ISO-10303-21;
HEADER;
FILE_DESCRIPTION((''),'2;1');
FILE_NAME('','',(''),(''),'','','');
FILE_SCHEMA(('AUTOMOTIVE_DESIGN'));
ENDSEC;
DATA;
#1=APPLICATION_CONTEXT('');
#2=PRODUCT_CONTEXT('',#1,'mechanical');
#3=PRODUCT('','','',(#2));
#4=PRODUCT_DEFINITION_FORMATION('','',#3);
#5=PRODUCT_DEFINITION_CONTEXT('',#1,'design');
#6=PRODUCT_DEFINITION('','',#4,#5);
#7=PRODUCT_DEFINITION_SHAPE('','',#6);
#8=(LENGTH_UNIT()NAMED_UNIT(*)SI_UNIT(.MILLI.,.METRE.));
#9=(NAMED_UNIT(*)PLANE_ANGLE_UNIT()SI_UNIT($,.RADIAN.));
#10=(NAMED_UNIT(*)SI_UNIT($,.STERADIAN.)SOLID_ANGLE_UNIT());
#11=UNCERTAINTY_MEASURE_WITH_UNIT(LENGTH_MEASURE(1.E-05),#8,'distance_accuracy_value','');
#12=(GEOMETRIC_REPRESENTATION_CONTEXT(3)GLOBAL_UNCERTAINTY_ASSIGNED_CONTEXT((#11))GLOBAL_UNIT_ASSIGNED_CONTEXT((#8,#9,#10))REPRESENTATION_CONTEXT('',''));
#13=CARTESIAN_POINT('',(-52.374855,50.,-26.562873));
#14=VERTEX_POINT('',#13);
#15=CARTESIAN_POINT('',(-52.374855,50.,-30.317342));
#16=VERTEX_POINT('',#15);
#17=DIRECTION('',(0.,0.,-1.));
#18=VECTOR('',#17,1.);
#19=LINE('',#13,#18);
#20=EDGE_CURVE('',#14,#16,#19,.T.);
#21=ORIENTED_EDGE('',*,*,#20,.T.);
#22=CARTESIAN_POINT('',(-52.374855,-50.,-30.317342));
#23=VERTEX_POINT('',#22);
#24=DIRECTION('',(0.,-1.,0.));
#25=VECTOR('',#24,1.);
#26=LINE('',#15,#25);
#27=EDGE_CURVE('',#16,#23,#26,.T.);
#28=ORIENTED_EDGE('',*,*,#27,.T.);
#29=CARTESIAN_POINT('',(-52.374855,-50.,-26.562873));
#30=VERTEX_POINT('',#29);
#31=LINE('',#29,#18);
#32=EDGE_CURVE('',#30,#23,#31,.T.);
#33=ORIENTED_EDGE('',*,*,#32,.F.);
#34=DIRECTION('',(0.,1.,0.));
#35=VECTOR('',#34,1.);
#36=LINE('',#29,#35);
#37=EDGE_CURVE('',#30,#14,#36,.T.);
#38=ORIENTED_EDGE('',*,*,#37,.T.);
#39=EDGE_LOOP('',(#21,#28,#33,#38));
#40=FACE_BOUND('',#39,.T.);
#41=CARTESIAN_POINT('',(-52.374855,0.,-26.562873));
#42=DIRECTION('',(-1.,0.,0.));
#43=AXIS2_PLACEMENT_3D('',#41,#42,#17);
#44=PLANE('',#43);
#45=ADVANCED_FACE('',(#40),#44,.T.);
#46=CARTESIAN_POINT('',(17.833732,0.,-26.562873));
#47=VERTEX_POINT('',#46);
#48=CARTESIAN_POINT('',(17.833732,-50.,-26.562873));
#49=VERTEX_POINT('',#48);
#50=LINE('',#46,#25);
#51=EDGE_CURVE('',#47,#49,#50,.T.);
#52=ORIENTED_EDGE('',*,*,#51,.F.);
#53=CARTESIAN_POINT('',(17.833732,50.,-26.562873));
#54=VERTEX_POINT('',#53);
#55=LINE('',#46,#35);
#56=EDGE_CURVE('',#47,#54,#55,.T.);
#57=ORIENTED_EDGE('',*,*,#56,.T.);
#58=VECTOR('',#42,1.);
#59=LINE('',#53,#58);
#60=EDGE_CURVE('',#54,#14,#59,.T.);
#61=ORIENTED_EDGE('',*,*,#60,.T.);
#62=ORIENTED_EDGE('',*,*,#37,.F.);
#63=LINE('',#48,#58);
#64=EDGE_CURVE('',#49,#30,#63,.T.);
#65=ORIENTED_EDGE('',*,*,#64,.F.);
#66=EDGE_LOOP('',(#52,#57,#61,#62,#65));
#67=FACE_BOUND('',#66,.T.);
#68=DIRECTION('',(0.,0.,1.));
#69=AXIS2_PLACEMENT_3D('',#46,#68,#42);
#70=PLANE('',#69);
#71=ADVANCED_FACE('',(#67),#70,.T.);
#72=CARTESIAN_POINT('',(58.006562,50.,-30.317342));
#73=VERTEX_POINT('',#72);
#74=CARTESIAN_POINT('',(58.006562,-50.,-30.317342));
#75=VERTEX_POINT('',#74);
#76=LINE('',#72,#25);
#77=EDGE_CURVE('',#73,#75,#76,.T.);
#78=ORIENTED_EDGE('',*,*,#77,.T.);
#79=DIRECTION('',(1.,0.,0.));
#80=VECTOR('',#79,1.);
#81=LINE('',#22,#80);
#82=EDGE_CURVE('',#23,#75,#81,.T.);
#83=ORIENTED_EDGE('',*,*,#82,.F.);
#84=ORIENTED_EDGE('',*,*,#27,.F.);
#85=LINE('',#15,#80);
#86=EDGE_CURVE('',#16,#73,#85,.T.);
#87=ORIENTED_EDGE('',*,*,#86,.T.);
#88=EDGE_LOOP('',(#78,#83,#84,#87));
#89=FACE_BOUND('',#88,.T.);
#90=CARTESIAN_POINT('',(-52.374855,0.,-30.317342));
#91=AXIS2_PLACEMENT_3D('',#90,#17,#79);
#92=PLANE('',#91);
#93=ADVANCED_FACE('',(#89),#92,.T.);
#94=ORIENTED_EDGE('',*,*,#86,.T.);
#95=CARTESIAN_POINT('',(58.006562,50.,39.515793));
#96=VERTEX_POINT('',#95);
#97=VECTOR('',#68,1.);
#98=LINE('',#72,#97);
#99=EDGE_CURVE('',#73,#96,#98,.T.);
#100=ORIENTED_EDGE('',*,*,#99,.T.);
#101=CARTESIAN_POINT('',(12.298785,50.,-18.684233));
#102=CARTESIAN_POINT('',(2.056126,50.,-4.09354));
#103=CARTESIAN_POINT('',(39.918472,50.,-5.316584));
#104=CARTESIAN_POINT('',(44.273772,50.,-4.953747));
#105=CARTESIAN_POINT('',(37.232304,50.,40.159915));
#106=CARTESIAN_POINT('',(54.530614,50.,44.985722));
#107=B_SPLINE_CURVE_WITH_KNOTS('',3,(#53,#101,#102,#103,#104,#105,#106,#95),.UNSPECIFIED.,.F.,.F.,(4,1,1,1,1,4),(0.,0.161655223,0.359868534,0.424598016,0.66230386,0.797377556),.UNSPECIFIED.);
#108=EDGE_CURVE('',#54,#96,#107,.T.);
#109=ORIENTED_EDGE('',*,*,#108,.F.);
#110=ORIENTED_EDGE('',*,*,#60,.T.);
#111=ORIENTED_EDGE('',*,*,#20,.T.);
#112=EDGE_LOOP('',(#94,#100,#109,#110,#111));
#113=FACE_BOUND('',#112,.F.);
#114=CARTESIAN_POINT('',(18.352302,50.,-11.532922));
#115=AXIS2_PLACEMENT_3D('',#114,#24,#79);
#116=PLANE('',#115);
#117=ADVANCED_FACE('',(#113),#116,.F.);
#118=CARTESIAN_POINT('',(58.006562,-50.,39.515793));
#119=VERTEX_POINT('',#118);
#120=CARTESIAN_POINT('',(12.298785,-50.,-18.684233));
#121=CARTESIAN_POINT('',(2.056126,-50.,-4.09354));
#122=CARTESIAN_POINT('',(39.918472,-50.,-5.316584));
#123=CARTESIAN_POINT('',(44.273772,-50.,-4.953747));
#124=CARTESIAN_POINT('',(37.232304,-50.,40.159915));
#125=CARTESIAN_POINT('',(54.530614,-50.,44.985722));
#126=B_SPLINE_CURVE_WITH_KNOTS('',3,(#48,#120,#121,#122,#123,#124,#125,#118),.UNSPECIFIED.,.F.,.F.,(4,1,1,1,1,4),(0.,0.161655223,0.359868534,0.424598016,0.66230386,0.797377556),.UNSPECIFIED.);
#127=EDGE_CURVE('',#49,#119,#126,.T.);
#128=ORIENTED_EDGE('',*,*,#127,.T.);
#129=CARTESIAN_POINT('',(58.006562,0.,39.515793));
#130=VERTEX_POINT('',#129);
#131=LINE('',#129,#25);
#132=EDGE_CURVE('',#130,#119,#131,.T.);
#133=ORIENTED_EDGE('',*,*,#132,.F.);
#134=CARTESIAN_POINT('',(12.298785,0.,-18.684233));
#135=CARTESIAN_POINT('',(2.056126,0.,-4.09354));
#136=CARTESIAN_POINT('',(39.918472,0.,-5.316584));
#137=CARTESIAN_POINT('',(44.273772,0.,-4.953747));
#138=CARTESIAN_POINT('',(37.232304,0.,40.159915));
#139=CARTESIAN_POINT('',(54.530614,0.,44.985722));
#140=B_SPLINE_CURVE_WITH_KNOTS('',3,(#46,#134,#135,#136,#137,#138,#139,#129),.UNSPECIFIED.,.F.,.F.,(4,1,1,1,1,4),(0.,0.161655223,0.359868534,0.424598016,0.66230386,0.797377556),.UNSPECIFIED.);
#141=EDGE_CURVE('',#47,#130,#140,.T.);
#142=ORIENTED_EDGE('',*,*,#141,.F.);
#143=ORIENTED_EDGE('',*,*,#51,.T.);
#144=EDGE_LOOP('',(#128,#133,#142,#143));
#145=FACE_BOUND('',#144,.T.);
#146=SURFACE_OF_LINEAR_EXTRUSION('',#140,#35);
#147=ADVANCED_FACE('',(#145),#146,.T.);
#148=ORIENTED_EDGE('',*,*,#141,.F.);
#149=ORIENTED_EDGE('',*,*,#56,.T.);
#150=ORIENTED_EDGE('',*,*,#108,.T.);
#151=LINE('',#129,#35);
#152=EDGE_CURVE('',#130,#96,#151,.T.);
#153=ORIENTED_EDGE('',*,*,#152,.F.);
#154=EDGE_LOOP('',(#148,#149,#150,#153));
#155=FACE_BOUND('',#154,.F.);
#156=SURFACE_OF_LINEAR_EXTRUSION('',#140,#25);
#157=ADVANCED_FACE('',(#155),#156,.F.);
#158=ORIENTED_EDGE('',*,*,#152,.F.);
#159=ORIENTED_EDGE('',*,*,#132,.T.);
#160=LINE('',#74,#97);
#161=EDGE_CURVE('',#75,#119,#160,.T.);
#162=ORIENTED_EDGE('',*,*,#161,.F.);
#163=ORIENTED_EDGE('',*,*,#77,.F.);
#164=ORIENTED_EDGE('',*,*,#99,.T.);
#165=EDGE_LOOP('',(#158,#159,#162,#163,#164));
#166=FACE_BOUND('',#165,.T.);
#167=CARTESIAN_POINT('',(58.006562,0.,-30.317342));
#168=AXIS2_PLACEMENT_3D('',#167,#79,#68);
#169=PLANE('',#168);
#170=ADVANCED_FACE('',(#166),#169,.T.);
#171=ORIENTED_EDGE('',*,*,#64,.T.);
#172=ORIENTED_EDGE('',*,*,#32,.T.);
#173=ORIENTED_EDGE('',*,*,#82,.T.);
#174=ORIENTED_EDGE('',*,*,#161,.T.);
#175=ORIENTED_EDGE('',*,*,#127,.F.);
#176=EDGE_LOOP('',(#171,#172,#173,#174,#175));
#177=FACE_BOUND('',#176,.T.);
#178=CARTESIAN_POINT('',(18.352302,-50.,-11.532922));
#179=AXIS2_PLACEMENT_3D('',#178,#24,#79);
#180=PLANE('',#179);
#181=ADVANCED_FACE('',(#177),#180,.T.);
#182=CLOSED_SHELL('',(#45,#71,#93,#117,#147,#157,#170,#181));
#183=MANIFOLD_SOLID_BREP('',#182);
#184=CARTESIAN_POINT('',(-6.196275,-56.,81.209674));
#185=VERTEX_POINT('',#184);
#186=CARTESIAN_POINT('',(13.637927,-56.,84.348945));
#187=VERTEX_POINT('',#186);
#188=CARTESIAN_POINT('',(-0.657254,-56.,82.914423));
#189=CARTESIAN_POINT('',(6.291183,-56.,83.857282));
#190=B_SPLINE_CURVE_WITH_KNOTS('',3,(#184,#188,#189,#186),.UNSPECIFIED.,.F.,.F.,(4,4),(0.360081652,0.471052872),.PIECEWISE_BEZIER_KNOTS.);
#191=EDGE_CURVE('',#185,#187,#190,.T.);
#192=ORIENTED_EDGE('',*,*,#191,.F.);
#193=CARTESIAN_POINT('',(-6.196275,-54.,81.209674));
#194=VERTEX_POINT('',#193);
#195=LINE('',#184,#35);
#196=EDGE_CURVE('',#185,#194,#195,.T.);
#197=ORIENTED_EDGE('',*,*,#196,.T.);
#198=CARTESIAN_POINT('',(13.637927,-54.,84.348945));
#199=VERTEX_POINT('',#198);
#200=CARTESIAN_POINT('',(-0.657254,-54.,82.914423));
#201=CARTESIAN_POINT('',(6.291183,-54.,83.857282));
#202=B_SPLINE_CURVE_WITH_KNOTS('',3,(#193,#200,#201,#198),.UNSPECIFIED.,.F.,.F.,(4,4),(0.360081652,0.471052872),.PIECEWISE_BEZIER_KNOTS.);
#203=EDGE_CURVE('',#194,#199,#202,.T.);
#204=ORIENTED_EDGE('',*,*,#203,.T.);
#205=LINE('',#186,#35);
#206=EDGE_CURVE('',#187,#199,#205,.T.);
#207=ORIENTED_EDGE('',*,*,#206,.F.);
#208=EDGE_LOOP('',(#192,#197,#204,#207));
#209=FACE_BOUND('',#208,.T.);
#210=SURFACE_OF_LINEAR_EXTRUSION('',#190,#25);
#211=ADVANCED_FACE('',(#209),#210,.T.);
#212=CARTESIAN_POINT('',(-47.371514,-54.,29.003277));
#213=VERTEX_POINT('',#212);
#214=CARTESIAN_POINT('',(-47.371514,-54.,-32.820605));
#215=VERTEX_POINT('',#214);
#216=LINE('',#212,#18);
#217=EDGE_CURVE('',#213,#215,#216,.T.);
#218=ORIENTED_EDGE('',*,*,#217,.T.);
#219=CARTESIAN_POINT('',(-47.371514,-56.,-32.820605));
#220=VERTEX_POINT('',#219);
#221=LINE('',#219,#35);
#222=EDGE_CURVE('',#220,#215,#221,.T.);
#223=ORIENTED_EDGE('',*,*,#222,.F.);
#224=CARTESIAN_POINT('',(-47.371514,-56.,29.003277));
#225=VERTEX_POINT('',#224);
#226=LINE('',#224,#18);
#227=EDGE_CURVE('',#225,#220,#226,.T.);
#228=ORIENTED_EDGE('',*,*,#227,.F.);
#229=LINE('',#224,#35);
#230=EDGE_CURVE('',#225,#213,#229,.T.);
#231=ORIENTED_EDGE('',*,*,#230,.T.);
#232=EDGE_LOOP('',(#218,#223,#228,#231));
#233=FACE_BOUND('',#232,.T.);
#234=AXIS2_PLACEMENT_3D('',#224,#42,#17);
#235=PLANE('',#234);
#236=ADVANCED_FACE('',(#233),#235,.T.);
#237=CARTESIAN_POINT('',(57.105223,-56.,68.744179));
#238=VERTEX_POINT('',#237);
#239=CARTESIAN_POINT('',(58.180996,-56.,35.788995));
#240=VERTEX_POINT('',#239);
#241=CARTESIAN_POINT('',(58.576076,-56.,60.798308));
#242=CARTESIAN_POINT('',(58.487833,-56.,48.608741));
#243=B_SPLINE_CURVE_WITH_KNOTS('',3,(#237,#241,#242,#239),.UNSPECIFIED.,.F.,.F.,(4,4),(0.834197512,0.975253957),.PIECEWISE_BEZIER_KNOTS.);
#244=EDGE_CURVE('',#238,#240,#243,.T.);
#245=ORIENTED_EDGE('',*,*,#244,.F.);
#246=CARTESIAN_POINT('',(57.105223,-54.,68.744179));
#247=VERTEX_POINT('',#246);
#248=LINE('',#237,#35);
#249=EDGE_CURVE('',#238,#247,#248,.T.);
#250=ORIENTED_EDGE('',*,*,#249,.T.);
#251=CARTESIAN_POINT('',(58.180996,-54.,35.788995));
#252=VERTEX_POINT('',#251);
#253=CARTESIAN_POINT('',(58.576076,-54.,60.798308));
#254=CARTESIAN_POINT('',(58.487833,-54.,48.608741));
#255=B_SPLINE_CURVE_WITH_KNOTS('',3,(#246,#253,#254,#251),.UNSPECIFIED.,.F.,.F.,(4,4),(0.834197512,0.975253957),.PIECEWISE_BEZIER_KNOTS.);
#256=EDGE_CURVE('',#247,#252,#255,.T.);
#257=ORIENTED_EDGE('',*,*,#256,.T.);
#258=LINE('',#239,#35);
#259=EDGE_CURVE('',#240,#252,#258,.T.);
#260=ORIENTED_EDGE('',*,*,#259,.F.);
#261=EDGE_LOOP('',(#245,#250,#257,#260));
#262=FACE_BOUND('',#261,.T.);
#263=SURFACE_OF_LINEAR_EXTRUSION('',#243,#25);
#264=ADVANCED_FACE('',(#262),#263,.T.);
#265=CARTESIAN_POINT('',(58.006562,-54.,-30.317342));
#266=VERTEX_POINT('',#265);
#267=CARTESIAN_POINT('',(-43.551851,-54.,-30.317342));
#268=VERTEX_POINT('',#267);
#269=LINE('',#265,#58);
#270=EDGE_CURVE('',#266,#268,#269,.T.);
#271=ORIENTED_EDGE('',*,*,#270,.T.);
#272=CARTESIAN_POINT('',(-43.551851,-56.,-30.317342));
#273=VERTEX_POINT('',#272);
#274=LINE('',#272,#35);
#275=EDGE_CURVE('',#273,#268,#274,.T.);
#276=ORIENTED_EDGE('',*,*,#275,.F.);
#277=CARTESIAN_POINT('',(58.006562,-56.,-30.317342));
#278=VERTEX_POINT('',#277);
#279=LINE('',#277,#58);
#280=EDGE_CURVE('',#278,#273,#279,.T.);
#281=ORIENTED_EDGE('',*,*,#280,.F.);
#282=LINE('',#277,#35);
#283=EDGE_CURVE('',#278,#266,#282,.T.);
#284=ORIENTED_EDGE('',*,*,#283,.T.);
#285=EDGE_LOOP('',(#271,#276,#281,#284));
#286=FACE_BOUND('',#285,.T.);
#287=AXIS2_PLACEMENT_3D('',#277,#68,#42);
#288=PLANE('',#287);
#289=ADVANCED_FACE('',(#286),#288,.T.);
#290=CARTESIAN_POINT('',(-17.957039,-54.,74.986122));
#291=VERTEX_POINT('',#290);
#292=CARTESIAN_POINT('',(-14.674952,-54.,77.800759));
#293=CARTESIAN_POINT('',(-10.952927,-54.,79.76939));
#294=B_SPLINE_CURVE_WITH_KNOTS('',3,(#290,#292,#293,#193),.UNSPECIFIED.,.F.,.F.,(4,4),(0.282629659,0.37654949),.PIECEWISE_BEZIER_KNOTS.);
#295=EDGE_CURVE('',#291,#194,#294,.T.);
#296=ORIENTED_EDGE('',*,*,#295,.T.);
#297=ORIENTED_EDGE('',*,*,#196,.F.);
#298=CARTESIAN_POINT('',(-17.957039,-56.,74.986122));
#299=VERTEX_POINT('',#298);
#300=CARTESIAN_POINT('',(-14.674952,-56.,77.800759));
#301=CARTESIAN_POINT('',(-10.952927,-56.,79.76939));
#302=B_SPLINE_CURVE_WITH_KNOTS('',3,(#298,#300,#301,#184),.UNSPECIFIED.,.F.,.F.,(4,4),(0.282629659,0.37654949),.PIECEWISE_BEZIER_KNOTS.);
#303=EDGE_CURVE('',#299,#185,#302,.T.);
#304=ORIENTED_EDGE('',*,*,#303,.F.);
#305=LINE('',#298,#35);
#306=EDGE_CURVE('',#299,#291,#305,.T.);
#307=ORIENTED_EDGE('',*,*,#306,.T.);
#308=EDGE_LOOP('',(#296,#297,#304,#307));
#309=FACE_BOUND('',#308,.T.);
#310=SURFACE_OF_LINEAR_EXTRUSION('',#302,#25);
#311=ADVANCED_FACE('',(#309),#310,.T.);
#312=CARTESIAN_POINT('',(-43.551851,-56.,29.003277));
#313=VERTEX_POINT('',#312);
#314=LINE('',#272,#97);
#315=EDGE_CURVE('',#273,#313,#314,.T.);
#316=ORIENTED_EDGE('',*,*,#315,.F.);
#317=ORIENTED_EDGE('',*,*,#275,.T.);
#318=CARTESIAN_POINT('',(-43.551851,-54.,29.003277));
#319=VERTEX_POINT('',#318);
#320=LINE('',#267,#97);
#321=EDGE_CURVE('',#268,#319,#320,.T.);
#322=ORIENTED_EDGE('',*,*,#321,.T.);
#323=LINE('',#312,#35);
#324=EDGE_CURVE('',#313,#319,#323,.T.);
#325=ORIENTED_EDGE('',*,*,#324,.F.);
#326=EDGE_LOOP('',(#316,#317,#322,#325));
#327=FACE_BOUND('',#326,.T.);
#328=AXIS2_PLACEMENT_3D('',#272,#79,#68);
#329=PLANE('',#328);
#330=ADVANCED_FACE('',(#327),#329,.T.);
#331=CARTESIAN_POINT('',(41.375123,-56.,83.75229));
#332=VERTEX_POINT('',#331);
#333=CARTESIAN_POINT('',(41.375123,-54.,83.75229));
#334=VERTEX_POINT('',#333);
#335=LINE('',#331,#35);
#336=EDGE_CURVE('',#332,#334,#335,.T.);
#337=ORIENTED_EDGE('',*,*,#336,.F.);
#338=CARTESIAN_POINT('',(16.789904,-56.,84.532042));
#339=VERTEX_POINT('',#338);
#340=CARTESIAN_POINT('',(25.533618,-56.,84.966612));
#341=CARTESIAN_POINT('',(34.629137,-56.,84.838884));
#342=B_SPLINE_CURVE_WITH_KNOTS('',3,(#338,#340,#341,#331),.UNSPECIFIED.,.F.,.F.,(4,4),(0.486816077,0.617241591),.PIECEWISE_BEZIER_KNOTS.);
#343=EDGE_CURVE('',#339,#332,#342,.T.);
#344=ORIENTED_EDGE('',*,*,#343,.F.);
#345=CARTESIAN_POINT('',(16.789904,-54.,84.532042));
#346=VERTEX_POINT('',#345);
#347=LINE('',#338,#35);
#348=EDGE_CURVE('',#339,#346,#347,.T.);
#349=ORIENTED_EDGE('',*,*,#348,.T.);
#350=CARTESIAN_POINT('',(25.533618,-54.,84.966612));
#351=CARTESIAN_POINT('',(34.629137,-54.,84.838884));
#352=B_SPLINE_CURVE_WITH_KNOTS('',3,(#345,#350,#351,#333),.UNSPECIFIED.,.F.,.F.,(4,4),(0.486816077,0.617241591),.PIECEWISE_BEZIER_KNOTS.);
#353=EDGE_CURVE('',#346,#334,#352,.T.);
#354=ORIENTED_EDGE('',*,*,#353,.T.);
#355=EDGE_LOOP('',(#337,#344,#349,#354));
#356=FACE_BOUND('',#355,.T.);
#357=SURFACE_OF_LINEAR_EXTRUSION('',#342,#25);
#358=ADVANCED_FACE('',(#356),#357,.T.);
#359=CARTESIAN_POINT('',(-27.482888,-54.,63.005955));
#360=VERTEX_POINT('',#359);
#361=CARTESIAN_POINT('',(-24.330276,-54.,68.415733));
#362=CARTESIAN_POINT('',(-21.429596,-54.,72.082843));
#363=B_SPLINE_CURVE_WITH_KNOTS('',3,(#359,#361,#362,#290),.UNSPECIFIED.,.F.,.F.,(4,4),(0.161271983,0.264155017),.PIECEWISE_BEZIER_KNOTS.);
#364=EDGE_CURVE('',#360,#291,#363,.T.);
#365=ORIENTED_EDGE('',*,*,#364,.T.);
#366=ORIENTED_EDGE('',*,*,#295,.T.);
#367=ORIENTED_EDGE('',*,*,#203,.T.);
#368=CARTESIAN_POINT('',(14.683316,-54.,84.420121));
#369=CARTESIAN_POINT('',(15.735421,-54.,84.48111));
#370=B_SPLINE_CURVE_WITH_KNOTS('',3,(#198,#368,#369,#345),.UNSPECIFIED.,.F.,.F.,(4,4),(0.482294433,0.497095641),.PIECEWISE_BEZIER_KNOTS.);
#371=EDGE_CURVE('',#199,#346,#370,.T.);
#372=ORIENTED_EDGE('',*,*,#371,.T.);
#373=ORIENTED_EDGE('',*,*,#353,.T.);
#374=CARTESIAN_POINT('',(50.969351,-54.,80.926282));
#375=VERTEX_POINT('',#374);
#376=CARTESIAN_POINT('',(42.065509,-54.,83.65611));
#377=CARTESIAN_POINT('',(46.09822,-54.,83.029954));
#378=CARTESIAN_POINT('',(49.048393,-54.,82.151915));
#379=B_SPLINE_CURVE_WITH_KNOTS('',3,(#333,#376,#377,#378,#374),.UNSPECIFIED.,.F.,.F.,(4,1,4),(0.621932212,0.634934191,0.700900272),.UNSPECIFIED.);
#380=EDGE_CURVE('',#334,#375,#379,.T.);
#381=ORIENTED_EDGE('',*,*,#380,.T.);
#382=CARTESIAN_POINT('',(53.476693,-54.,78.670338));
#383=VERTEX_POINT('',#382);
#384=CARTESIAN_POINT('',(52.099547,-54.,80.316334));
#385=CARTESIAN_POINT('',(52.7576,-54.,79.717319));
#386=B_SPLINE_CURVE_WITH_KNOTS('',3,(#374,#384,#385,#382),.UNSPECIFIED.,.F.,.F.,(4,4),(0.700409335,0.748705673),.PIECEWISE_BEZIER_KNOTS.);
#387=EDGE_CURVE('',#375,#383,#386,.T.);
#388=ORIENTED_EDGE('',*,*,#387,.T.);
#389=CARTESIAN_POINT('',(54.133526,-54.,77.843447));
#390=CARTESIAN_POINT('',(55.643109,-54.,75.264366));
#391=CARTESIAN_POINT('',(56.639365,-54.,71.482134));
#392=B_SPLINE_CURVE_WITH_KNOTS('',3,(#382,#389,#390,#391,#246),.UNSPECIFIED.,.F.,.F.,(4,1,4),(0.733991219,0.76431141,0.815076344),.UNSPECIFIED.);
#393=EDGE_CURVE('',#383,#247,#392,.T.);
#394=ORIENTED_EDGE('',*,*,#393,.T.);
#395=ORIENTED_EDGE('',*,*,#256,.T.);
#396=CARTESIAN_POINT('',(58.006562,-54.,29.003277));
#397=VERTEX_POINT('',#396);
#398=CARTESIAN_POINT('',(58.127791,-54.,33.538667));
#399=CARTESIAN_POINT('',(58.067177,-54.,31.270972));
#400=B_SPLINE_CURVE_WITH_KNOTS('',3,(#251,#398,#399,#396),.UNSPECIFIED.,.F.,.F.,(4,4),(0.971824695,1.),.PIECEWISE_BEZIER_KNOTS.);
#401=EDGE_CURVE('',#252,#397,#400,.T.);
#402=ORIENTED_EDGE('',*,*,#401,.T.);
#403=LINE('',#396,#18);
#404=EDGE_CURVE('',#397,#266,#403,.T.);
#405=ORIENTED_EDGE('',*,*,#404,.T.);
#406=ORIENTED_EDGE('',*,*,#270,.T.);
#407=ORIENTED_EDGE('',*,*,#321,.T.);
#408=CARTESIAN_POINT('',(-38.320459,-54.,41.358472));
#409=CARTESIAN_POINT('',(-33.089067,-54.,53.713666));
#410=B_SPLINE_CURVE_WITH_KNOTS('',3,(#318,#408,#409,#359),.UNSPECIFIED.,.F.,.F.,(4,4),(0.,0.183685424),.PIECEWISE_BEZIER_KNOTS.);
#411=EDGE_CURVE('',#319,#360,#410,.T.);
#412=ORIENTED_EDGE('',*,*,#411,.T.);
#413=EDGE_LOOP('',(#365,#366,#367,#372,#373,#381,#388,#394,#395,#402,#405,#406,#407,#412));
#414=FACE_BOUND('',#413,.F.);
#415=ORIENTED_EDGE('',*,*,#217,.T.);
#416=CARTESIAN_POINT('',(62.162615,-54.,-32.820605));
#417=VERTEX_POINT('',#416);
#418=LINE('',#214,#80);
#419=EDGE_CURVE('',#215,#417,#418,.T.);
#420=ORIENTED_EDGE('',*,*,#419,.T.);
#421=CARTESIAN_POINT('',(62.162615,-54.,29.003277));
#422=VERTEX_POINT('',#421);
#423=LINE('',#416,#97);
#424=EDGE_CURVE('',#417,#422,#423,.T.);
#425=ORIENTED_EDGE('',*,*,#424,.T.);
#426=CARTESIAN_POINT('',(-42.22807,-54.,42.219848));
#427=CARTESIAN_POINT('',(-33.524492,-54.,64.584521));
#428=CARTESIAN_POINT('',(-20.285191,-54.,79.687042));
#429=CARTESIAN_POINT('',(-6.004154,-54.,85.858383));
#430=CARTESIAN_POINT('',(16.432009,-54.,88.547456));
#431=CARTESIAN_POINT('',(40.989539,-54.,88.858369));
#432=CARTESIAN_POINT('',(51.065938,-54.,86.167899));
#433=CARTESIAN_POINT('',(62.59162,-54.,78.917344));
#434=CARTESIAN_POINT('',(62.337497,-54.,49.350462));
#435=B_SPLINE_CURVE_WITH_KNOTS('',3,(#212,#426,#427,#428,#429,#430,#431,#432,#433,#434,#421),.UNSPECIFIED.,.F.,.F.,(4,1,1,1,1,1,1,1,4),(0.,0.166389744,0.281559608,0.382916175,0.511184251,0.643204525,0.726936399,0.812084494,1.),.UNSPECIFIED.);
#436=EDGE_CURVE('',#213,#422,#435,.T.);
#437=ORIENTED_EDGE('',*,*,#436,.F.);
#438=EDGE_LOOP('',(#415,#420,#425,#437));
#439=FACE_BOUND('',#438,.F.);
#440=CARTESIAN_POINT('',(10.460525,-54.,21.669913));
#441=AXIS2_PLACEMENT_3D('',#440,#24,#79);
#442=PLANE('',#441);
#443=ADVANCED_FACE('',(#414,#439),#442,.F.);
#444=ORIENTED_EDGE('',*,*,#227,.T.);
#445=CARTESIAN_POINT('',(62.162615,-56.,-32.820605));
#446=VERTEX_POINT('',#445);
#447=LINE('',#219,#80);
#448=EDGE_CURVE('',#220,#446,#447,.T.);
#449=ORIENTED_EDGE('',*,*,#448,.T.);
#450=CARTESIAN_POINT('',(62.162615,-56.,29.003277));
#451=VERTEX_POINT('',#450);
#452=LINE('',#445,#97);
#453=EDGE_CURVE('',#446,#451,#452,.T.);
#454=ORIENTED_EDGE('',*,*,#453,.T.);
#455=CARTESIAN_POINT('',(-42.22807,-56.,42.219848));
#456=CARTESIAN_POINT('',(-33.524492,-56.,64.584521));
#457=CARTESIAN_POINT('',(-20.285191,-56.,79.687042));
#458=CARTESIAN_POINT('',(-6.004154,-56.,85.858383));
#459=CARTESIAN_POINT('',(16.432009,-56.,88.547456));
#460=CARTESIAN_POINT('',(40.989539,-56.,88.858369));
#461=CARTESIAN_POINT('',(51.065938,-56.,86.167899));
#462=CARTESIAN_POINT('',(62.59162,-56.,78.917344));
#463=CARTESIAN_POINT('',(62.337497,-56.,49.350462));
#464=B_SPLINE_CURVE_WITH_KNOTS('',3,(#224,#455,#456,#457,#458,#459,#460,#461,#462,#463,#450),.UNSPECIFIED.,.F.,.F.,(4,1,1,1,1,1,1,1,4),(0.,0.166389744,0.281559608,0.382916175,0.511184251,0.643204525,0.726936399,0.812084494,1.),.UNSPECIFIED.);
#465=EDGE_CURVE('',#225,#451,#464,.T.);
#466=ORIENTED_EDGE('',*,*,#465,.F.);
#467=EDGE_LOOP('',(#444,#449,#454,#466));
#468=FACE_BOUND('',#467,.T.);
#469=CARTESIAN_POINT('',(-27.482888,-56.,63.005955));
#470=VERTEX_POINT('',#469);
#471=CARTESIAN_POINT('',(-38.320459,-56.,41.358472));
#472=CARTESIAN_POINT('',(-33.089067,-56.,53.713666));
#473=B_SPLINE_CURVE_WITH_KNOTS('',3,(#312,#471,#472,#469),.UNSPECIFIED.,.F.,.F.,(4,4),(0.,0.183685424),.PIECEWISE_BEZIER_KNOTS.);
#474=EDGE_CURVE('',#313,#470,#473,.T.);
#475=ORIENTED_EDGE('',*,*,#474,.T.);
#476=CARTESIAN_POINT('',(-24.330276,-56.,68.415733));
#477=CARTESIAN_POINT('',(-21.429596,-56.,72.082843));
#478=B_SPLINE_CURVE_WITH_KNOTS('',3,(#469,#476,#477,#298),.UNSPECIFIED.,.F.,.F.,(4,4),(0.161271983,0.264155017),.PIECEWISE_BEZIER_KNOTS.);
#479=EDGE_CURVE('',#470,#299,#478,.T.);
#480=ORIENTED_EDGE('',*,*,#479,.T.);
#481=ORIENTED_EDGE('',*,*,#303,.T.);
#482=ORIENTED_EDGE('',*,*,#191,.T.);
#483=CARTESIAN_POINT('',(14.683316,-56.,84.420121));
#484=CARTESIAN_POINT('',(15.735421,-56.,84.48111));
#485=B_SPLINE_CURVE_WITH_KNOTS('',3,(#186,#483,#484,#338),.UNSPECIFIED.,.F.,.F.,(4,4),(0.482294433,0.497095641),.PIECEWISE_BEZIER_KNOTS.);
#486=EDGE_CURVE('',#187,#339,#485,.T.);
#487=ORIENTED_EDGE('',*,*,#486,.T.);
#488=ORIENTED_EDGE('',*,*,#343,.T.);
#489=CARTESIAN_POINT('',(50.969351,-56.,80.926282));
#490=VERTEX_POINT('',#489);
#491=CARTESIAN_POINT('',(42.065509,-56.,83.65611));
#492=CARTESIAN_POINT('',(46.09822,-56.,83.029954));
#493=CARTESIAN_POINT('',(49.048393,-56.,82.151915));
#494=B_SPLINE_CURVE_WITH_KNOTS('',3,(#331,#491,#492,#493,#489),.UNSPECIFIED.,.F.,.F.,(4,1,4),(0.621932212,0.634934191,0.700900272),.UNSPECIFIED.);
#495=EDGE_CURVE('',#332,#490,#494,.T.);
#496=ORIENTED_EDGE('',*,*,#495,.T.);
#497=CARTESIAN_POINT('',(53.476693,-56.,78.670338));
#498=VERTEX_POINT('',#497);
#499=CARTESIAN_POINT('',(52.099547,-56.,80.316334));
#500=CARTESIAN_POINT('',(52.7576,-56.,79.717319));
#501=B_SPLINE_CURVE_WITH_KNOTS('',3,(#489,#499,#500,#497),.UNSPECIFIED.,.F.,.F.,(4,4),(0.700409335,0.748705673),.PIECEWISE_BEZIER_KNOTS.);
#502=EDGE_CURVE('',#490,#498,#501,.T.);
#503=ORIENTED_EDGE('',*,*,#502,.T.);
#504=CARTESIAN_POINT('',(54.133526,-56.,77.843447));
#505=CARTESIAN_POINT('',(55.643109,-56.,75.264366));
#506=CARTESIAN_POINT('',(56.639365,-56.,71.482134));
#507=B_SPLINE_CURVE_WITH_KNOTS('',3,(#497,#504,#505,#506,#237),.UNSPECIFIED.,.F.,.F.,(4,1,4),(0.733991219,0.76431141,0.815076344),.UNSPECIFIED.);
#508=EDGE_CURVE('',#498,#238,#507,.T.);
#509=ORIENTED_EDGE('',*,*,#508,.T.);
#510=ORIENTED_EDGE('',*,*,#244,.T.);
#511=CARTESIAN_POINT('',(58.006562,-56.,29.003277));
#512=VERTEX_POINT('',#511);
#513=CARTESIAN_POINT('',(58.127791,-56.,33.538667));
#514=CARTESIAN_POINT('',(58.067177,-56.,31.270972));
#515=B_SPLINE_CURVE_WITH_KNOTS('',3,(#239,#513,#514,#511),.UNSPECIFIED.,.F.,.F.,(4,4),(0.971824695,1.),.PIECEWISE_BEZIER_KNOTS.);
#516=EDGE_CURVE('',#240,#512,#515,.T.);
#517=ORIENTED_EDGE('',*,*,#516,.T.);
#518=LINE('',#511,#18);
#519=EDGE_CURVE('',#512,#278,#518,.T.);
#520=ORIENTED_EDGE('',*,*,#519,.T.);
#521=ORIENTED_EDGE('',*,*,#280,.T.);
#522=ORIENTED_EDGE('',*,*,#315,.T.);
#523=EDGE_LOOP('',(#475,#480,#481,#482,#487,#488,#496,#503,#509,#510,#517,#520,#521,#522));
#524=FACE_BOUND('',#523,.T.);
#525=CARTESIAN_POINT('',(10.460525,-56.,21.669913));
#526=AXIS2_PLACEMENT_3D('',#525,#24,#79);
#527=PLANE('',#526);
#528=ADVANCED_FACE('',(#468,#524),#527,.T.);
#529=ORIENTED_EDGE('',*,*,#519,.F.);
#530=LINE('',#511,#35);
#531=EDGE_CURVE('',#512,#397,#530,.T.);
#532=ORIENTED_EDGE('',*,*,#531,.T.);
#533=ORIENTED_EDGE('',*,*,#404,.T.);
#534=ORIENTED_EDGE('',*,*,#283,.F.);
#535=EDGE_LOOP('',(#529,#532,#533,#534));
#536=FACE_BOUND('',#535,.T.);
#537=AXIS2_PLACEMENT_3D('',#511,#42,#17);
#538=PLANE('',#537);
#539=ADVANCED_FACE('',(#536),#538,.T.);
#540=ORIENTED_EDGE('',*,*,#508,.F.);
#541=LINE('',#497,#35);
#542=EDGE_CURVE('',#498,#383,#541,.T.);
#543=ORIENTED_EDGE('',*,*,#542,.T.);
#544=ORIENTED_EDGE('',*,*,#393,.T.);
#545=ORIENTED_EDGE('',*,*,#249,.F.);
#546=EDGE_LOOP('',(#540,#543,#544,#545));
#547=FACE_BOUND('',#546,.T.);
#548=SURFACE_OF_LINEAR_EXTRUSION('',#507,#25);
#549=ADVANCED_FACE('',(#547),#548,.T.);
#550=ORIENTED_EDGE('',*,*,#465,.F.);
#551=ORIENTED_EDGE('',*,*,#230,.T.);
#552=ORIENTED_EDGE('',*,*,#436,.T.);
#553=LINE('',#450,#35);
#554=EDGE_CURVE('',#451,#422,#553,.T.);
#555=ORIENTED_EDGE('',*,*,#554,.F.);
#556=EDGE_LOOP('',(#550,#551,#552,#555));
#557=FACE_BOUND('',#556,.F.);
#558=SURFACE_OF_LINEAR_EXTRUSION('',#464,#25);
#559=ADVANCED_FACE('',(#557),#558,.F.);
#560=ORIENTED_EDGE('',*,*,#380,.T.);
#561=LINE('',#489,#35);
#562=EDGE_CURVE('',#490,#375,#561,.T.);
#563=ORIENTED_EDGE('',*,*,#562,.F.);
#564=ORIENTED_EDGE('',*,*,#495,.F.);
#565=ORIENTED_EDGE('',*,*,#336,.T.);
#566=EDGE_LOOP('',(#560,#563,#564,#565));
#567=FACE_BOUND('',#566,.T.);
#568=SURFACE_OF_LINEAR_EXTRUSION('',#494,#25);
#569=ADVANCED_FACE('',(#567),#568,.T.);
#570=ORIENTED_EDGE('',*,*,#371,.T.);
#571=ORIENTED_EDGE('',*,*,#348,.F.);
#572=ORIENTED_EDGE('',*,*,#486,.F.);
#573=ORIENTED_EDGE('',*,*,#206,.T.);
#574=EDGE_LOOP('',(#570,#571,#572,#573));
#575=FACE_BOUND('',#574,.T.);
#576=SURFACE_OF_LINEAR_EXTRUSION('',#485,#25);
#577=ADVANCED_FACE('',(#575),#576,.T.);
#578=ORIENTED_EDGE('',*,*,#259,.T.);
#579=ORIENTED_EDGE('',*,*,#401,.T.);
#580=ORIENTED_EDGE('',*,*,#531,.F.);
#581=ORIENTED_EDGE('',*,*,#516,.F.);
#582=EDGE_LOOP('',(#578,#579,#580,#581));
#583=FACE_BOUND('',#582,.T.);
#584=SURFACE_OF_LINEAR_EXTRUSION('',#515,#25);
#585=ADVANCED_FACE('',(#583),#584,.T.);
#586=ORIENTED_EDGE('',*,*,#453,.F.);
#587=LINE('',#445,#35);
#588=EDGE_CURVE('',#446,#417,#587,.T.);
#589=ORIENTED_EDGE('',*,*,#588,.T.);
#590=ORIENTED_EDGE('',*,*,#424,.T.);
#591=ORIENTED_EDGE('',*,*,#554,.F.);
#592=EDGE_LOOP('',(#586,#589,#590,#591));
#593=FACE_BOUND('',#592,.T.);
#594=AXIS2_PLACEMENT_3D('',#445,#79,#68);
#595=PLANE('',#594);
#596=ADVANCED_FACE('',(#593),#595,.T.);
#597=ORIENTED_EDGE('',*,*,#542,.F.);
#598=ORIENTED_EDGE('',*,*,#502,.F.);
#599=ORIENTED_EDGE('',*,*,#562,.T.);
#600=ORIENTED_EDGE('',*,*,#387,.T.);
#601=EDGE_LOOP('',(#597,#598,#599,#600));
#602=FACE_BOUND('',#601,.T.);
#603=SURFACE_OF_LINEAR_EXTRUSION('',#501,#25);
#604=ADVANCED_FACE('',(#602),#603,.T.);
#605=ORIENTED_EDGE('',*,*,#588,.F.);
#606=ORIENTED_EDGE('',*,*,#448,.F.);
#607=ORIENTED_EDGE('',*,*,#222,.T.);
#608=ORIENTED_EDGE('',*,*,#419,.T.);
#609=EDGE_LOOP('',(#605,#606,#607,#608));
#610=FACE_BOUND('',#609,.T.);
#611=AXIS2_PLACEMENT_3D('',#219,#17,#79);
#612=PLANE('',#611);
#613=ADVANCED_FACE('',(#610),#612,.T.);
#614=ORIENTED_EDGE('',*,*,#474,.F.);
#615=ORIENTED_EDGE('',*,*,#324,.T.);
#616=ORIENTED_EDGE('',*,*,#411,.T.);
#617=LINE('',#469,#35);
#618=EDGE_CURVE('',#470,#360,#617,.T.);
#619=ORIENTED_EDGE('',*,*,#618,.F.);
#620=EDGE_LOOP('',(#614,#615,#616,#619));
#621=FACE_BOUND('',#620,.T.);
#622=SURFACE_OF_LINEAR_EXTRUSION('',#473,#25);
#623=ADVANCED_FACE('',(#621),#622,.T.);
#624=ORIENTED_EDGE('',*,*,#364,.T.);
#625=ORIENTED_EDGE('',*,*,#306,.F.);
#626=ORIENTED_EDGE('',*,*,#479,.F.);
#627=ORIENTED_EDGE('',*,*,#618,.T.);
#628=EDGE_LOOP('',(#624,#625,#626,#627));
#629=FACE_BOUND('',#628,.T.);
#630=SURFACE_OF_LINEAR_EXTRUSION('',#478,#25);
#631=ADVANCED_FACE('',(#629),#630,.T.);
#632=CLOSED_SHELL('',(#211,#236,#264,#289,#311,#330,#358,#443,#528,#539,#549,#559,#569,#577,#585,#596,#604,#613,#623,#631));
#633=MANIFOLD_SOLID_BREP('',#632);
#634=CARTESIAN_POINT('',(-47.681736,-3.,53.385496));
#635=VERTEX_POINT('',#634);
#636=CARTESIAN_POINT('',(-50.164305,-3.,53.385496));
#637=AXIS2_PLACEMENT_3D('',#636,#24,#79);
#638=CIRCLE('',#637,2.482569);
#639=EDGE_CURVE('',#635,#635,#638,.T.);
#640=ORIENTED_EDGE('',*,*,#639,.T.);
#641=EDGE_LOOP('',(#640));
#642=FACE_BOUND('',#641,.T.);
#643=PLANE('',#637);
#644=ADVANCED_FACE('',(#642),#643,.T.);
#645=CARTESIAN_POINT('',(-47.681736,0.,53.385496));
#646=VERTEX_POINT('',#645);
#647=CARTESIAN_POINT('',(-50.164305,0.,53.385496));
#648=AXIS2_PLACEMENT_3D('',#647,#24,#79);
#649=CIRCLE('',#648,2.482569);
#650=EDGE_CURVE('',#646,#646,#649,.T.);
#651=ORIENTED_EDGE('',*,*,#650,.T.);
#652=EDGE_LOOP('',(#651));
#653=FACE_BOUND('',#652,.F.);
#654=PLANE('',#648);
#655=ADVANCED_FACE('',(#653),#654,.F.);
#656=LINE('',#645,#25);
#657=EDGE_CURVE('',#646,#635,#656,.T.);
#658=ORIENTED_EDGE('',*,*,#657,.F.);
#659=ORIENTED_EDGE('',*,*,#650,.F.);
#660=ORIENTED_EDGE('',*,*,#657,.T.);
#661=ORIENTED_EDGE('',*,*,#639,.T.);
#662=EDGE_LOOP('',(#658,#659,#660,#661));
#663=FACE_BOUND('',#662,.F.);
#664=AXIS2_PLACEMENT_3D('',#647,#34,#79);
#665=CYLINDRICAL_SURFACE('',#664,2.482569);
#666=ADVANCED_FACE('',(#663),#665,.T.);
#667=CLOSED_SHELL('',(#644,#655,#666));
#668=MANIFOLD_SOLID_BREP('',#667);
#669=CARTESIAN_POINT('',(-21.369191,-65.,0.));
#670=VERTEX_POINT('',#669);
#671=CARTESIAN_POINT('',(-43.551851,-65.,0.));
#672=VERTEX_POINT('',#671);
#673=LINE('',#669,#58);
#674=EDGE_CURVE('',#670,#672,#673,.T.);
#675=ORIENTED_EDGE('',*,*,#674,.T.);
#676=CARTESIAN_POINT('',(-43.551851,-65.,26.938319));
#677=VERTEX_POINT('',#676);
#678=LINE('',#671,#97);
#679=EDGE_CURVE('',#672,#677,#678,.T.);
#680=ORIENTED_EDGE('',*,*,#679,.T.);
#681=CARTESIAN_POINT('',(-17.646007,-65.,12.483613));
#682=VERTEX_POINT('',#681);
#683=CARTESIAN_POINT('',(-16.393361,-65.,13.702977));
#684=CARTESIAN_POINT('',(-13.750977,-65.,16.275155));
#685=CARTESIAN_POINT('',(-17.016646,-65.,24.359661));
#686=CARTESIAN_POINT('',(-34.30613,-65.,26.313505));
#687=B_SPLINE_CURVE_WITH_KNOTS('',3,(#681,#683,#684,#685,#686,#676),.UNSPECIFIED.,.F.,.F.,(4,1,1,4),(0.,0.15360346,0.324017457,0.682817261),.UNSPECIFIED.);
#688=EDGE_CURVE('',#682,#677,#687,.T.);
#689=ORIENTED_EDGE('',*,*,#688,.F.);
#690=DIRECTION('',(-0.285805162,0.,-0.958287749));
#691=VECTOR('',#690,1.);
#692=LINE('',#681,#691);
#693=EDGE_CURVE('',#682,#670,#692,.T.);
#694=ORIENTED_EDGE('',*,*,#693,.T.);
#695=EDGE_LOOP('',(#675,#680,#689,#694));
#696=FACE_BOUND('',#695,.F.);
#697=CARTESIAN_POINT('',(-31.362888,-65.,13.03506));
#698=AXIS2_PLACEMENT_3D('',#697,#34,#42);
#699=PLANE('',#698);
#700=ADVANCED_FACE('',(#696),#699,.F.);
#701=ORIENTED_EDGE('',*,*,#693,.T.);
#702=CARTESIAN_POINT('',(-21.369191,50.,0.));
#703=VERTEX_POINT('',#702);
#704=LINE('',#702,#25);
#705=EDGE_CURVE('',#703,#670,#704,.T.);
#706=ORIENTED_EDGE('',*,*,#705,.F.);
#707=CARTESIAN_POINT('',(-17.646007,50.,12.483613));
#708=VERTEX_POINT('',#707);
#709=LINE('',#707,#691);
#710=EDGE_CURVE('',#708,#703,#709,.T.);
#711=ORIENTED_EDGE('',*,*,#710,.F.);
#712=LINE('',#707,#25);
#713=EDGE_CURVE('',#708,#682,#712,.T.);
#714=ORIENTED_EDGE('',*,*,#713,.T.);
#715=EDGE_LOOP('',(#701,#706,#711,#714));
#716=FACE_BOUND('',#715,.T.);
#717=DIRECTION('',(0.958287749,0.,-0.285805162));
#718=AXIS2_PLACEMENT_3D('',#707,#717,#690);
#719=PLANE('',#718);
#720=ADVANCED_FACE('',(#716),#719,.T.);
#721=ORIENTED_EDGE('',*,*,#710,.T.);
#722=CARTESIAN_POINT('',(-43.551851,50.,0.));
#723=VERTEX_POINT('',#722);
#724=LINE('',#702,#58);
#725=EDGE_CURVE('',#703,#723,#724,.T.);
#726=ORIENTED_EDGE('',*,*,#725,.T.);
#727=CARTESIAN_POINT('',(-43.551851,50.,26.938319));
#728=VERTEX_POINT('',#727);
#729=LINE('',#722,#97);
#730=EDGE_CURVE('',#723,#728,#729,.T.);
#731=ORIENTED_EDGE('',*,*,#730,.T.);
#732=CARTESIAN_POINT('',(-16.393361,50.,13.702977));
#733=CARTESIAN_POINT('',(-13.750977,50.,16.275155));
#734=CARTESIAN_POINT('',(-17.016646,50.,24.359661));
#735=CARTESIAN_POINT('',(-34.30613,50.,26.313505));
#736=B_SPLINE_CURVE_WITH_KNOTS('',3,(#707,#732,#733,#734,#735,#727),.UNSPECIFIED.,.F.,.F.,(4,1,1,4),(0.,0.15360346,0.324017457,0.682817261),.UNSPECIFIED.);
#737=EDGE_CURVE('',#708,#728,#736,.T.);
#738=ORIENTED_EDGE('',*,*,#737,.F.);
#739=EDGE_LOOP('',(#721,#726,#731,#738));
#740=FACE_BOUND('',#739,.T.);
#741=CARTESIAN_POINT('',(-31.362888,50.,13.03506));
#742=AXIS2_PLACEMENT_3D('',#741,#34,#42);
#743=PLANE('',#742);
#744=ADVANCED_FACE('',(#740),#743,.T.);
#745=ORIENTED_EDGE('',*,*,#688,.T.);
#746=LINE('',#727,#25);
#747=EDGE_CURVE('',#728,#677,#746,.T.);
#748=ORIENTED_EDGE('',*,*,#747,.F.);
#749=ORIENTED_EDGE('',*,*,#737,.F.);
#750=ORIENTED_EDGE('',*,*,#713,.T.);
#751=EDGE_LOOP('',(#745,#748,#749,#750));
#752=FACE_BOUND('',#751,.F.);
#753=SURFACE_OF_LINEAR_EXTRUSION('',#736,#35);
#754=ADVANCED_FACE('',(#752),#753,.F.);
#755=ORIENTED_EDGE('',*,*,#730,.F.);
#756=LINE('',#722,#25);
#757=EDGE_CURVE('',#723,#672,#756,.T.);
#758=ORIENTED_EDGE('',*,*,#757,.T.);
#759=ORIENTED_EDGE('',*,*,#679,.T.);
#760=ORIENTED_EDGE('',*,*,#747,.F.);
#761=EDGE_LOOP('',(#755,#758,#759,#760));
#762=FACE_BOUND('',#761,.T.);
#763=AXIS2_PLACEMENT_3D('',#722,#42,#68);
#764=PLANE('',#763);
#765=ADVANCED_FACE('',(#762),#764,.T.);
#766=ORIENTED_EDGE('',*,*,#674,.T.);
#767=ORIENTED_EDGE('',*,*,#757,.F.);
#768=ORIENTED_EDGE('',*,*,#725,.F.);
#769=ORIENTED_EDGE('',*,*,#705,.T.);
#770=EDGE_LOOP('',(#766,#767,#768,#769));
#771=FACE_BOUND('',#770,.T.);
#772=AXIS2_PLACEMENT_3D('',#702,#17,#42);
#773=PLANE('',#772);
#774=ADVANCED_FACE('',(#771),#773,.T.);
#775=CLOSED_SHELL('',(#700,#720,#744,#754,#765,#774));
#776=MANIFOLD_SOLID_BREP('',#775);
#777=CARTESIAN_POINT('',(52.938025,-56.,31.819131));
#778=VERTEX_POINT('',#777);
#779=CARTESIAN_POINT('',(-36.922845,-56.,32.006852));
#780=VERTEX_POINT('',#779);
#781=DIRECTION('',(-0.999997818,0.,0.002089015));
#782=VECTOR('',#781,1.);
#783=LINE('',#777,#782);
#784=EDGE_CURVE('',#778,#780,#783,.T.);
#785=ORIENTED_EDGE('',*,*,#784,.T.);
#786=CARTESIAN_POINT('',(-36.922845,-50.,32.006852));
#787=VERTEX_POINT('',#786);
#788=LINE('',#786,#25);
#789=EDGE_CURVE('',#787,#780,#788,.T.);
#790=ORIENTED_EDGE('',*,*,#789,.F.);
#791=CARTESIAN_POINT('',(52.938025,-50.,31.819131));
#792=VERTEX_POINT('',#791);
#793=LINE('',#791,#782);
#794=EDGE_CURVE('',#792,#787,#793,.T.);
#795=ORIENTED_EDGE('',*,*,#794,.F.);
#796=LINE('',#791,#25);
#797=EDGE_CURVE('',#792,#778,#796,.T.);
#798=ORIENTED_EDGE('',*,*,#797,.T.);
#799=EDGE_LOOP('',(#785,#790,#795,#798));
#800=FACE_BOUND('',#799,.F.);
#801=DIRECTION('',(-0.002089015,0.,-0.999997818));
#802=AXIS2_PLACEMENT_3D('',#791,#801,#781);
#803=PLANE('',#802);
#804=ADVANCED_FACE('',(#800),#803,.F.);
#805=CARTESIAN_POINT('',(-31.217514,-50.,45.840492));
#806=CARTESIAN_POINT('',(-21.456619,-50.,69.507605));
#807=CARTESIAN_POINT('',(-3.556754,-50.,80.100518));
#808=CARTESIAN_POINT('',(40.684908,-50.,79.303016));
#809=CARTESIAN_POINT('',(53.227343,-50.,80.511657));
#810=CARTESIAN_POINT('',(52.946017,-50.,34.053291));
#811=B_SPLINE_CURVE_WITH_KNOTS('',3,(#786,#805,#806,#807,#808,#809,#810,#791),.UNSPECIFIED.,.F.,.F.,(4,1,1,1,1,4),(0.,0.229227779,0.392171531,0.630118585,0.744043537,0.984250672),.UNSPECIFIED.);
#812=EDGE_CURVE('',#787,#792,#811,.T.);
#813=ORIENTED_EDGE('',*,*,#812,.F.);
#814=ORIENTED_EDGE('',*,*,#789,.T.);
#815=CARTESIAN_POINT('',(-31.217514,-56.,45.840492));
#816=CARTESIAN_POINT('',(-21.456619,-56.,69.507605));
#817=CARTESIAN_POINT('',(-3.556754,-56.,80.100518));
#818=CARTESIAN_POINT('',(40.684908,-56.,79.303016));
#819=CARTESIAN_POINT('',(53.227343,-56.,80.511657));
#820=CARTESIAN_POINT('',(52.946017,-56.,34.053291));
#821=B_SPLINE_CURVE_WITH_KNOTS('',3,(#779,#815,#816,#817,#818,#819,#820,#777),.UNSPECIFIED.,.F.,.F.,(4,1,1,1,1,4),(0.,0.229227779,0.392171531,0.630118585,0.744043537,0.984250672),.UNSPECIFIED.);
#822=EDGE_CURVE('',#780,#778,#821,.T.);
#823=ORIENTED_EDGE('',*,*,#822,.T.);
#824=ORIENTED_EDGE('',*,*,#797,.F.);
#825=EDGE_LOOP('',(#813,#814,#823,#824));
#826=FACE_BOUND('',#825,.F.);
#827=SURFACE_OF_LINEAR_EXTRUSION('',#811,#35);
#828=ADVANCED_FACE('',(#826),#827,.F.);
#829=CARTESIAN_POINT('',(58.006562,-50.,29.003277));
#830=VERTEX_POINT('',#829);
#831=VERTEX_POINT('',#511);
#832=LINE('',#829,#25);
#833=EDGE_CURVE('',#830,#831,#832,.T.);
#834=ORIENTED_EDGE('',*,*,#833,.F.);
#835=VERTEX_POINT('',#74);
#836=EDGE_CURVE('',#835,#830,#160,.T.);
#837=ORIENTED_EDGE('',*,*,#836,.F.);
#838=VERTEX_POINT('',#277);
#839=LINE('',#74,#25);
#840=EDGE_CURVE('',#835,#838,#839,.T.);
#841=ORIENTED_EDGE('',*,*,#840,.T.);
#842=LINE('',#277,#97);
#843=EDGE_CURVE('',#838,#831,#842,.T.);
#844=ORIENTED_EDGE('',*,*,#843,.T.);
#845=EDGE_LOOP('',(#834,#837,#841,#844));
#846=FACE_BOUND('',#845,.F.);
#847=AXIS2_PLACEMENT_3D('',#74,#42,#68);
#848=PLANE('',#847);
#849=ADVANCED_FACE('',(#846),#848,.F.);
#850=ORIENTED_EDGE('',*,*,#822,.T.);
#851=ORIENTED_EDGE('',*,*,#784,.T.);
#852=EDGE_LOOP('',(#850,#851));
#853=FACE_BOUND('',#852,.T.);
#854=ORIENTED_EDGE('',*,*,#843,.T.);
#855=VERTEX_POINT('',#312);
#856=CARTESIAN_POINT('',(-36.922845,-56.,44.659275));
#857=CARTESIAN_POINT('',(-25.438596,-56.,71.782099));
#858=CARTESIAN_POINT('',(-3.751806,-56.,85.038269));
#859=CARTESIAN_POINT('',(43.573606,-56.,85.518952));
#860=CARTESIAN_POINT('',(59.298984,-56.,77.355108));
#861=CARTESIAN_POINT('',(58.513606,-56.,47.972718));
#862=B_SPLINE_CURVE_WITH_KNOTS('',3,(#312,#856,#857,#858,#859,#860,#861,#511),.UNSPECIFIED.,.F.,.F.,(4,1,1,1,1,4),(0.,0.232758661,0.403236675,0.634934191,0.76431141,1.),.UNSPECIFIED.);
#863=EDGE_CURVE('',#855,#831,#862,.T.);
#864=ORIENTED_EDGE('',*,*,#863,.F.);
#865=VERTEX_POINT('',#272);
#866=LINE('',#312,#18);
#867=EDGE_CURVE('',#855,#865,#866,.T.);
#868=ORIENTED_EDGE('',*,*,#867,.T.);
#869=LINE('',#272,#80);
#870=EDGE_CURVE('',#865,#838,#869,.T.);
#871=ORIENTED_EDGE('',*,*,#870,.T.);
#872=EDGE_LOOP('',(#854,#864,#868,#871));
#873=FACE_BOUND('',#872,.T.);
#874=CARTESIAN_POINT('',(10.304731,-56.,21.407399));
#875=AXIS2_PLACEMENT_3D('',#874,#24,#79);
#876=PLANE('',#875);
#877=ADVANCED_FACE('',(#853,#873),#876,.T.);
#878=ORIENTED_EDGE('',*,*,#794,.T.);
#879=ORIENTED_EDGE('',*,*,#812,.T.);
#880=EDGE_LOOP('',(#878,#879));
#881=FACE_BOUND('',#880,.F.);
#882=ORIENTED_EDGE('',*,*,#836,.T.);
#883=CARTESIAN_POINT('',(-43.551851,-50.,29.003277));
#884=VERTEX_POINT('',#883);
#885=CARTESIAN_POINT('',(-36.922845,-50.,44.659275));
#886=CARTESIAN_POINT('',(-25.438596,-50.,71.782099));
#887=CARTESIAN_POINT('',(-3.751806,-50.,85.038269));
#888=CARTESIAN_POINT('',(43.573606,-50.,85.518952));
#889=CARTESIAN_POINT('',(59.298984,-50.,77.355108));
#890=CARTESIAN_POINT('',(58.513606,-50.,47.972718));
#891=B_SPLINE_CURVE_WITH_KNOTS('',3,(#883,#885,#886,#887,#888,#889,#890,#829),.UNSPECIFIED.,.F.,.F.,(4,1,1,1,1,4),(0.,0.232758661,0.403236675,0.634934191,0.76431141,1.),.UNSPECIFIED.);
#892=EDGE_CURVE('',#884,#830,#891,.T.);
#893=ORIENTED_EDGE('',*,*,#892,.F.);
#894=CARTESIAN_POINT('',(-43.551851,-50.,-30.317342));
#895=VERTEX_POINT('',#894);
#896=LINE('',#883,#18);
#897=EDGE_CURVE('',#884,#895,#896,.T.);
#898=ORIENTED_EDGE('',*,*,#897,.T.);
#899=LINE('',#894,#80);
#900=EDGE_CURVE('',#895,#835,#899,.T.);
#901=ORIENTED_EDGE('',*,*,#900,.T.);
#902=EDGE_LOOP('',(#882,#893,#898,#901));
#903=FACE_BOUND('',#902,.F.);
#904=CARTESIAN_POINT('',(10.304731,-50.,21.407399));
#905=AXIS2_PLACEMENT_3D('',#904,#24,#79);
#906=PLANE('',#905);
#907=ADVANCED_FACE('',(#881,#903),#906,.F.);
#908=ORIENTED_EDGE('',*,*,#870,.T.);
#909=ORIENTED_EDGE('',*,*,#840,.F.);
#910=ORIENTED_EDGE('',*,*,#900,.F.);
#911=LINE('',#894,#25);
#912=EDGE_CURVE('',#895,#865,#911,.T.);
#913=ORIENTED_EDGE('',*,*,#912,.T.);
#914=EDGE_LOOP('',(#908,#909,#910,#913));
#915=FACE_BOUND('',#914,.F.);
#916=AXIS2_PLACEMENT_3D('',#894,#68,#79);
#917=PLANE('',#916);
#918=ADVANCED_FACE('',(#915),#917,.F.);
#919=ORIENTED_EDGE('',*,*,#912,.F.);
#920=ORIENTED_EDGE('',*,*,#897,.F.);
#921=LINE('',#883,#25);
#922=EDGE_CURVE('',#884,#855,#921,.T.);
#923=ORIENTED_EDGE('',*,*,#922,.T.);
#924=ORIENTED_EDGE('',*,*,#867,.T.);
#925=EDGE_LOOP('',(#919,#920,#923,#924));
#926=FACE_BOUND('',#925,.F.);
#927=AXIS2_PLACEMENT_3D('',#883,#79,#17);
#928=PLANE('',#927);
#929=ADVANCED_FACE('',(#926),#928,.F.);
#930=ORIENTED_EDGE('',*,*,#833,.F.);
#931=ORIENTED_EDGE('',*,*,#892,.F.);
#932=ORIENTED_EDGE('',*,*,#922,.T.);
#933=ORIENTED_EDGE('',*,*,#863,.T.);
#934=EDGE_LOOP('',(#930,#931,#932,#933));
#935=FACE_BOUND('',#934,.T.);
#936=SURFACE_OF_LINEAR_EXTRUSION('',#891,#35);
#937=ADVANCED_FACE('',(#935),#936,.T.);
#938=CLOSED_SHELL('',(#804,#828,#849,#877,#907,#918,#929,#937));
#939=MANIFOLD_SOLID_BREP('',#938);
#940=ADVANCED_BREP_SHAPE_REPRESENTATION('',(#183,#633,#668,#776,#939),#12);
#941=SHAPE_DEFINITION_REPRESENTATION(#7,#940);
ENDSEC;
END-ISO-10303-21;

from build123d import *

# Parameters (mm, degrees)
F1_DEPTH = 50
F3_DEPTH = 115
F5_DEPTH = 6
F7_DEPTH = 2
F8_R     = 2.4825689864
F9_DEPTH = 3


with BuildPart() as f1:
    # F0 (on Front) → F1 (new body, symmetric)
    with BuildSketch(Plane.XZ):
        with BuildLine():
            Line((-52.3748546839, -26.5628732741), (-52.3748546839, -30.3173419088))
            Line((-52.3748546839, -30.3173419088), (58.0065622926, -30.3173419088))
            Line((58.0065622926, -30.3173419088), (58.0065622926, 9.8554827273))
            Line((58.0065622926, 9.8554827273), (58.0065622926, 39.5157933235))
            add(Edge.make_bspline(
                [(17.8337320685, -26.5628732741), (12.2987850228, -18.6842330707), (2.0561256493, -4.0935398057), (39.9184715576, -5.3165841483), (44.2737718214, -4.953746865), (37.2323042761, 40.1599145958), (54.5306136351, 44.9857218694), (58.0065622926, 39.5157933235)],
                knots=[0, 0, 0, 0, 0.1616552234, 0.3598685336, 0.4245980156, 0.6623038598, 0.7973775563, 0.7973775563, 0.7973775563, 0.7973775563], degree=3))
            Line((17.8337320685, -26.5628732741), (-52.3748546839, -26.5628732741))
        make_face()
    extrude(amount=F1_DEPTH, both=True)


with BuildPart() as f3:
    # F2 (on face) → F3 (new body)
    with BuildSketch(Plane(origin=(0, 50, 0), x_dir=(-1, 0, 0), z_dir=(0, 1, 0))):
        with BuildLine():
            Line((17.6460072398, 12.4836126342), (21.3691905319, 0))
            Line((21.3691905319, 0), (43.551851064, 0))
            Line((43.551851064, 0), (43.551851064, 26.9383192062))
            add(Edge.make_bspline(
                [(17.6460072398, 12.4836126342), (16.3933606924, 13.7029773667), (13.7509765364, 16.2751554931), (17.0166456197, 24.3596606637), (34.3061298742, 26.3135049454), (43.551851064, 26.9383192062)],
                knots=[0, 0, 0, 0, 0.1536034597, 0.3240174566, 0.6828172606, 0.6828172606, 0.6828172606, 0.6828172606], degree=3))
        make_face()
    extrude(amount=-F3_DEPTH)


with BuildPart() as f5:
    # F4 (on face) → F5 (new body)
    with BuildSketch(Plane.XZ.offset(50)):
        with BuildLine():
            Line((-43.551851064, -30.3173419088), (58.0065622926, -30.3173419088))
            Line((58.0065622926, -30.3173419088), (58.0065622926, 29.003277421))
            add(Edge.make_bspline(
                [(-43.551851064, 29.003277421), (-36.922845047, 44.6592747847), (-25.4385964008, 71.7820992428), (-3.7518062151, 85.038269091), (43.5736062436, 85.5189515045), (59.2989838811, 77.3551079832), (58.5136064736, 47.9727178463), (58.0065622926, 29.003277421)],
                knots=[0, 0, 0, 0, 0.2327586614, 0.4032366747, 0.6349341911, 0.7643114096, 1, 1, 1, 1], degree=3))
            Line((-43.551851064, 29.003277421), (-43.551851064, -30.3173419088))
        make_face()
        with BuildLine():
            Line((52.9380254447, 31.8191312253), (-36.922845047, 32.0068523288))
            add(Edge.make_bspline(
                [(-36.922845047, 32.0068523288), (-31.2175141555, 45.8404922054), (-21.4566188567, 69.5076051224), (-3.5567539168, 80.1005176166), (40.6849079728, 79.3030163856), (53.2273429053, 80.5116568037), (52.9460170699, 34.053291403), (52.9380254447, 31.8191312253)],
                knots=[0, 0, 0, 0, 0.2292277789, 0.3921715308, 0.6301185848, 0.7440435368, 0.9842506716, 0.9842506716, 0.9842506716, 0.9842506716], degree=3))
        make_face(mode=Mode.SUBTRACT)
    extrude(amount=F5_DEPTH)


with BuildPart() as f7:
    # F6 (on face) → F7 (new body)
    with BuildSketch(Plane.XZ.offset(56)):
        with BuildLine():
            Line((-47.3715141416, 29.003277421), (-47.3715141416, -32.8206047416))
            Line((-47.3715141416, -32.8206047416), (62.1626153588, -32.8206047416))
            Line((62.1626153588, -32.8206047416), (62.1626153588, 29.003277421))
            add(Edge.make_bspline(
                [(-47.3715141416, 29.003277421), (-42.2280699361, 42.2198476495), (-33.5244918268, 64.5845213439), (-20.2851907334, 79.6870424527), (-6.0041537363, 85.8583833125), (16.4320092077, 88.5474555911), (40.9895385441, 88.8583689047), (51.0659377242, 86.1678990592), (62.5916202731, 78.9173438118), (62.337496767, 49.3504620957), (62.1626153588, 29.003277421)],
                knots=[0, 0, 0, 0, 0.166389744, 0.2815596078, 0.3829161749, 0.5111842507, 0.6432045249, 0.7269363985, 0.8120844944, 1, 1, 1, 1], degree=3))
        make_face()
        with BuildLine():
            Line((58.0065622926, -30.3173419088), (-43.551851064, -30.3173419088))
            Line((-43.551851064, -30.3173419088), (-43.551851064, 29.003277421))
            add(Edge.make_bspline(
                [(-43.551851064, 29.003277421), (-38.3204591544, 41.3584718099), (-33.0890672449, 53.7136661988), (-27.4828879153, 63.0059549724)],
                knots=[0, 0, 0, 0, 0.1836854236, 0.1836854236, 0.1836854236, 0.1836854236], degree=3))
            add(Edge.make_bspline(
                [(-27.482887925, 63.0059549574), (-24.3302758225, 68.4157326192), (-21.4295958334, 72.0828429709), (-17.957038942, 74.9861221565)],
                knots=[0.1612719831, 0.1612719831, 0.1612719831, 0.1612719831, 0.2641550169, 0.2641550169, 0.2641550169, 0.2641550169], degree=3))
            add(Edge.make_bspline(
                [(-17.9570389343, 74.9861221627), (-14.6749515115, 77.8007594297), (-10.9529267226, 79.769390292), (-6.1962749316, 81.2096741076)],
                knots=[0.2826296593, 0.2826296593, 0.2826296593, 0.2826296593, 0.3765494898, 0.3765494898, 0.3765494898, 0.3765494898], degree=3))
            add(Edge.make_bspline(
                [(-6.1962749169, 81.2096741119), (-0.6572543837, 82.9144230389), (6.291182739, 83.8572821801), (13.6379271177, 84.3489450881)],
                knots=[0.3600816524, 0.3600816524, 0.3600816524, 0.3600816524, 0.4710528722, 0.4710528722, 0.4710528722, 0.4710528722], degree=3))
            add(Edge.make_bspline(
                [(13.6379271245, 84.3489450889), (14.6833159379, 84.4201213225), (15.7354211839, 84.4811104473), (16.7899038052, 84.5320422281)],
                knots=[0.4822944328, 0.4822944328, 0.4822944328, 0.4822944328, 0.497095641, 0.497095641, 0.497095641, 0.497095641], degree=3))
            add(Edge.make_bspline(
                [(16.7899038249, 84.532042229), (25.5336177388, 84.9666119001), (34.6291365122, 84.8388843352), (41.3751229916, 83.7522895568)],
                knots=[0.4868160775, 0.4868160775, 0.4868160775, 0.4868160775, 0.6172415909, 0.6172415909, 0.6172415909, 0.6172415909], degree=3))
            add(Edge.make_bspline(
                [(41.37512301, 83.7522895553), (42.0655087346, 83.6561100972), (46.098220428, 83.0299538744), (49.0483928027, 82.151915481), (50.9693511028, 80.9262823084)],
                knots=[0.6219322123, 0.6219322123, 0.6219322123, 0.6219322123, 0.6349341911, 0.7009002717, 0.7009002717, 0.7009002717, 0.7009002717], degree=3))
            add(Edge.make_bspline(
                [(50.9693510968, 80.9262823136), (52.0995470946, 80.3163335876), (52.7575997639, 79.717319044), (53.4766927149, 78.6703378075)],
                knots=[0.7004093349, 0.7004093349, 0.7004093349, 0.7004093349, 0.748705673, 0.748705673, 0.748705673, 0.748705673], degree=3))
            add(Edge.make_bspline(
                [(53.4766927076, 78.6703378143), (54.1335263791, 77.8434472478), (55.6431087364, 75.2643661502), (56.6393650354, 71.4821342037), (57.105223434, 68.7441786872)],
                knots=[0.7339912193, 0.7339912193, 0.7339912193, 0.7339912193, 0.7643114096, 0.8150763436, 0.8150763436, 0.8150763436, 0.8150763436], degree=3))
            add(Edge.make_bspline(
                [(57.1052234363, 68.7441786706), (58.5760757583, 60.7983080581), (58.4878333308, 48.6087414253), (58.1809962005, 35.7889954003)],
                knots=[0.834197512, 0.834197512, 0.834197512, 0.834197512, 0.9752539568, 0.9752539568, 0.9752539568, 0.9752539568], degree=3))
            add(Edge.make_bspline(
                [(58.1809962004, 35.7889953986), (58.1277911102, 33.5386668791), (58.0671767014, 31.2709721501), (58.0065622926, 29.003277421)],
                knots=[0.9718246948, 0.9718246948, 0.9718246948, 0.9718246948, 1, 1, 1, 1], degree=3))
            Line((58.0065622926, 29.003277421), (58.0065622926, -30.3173419088))
        make_face(mode=Mode.SUBTRACT)
    extrude(amount=-F7_DEPTH)


with BuildPart() as f9:
    # F8 (on Front) → F9 (new body)
    with BuildSketch(Plane.XZ):
        with Locations((-50.1643046737, 53.3854961395)):
            Circle(F8_R)
    extrude(amount=F9_DEPTH)


solid = Compound([f1.part, f3.part, f5.part, f7.part, f9.part])
